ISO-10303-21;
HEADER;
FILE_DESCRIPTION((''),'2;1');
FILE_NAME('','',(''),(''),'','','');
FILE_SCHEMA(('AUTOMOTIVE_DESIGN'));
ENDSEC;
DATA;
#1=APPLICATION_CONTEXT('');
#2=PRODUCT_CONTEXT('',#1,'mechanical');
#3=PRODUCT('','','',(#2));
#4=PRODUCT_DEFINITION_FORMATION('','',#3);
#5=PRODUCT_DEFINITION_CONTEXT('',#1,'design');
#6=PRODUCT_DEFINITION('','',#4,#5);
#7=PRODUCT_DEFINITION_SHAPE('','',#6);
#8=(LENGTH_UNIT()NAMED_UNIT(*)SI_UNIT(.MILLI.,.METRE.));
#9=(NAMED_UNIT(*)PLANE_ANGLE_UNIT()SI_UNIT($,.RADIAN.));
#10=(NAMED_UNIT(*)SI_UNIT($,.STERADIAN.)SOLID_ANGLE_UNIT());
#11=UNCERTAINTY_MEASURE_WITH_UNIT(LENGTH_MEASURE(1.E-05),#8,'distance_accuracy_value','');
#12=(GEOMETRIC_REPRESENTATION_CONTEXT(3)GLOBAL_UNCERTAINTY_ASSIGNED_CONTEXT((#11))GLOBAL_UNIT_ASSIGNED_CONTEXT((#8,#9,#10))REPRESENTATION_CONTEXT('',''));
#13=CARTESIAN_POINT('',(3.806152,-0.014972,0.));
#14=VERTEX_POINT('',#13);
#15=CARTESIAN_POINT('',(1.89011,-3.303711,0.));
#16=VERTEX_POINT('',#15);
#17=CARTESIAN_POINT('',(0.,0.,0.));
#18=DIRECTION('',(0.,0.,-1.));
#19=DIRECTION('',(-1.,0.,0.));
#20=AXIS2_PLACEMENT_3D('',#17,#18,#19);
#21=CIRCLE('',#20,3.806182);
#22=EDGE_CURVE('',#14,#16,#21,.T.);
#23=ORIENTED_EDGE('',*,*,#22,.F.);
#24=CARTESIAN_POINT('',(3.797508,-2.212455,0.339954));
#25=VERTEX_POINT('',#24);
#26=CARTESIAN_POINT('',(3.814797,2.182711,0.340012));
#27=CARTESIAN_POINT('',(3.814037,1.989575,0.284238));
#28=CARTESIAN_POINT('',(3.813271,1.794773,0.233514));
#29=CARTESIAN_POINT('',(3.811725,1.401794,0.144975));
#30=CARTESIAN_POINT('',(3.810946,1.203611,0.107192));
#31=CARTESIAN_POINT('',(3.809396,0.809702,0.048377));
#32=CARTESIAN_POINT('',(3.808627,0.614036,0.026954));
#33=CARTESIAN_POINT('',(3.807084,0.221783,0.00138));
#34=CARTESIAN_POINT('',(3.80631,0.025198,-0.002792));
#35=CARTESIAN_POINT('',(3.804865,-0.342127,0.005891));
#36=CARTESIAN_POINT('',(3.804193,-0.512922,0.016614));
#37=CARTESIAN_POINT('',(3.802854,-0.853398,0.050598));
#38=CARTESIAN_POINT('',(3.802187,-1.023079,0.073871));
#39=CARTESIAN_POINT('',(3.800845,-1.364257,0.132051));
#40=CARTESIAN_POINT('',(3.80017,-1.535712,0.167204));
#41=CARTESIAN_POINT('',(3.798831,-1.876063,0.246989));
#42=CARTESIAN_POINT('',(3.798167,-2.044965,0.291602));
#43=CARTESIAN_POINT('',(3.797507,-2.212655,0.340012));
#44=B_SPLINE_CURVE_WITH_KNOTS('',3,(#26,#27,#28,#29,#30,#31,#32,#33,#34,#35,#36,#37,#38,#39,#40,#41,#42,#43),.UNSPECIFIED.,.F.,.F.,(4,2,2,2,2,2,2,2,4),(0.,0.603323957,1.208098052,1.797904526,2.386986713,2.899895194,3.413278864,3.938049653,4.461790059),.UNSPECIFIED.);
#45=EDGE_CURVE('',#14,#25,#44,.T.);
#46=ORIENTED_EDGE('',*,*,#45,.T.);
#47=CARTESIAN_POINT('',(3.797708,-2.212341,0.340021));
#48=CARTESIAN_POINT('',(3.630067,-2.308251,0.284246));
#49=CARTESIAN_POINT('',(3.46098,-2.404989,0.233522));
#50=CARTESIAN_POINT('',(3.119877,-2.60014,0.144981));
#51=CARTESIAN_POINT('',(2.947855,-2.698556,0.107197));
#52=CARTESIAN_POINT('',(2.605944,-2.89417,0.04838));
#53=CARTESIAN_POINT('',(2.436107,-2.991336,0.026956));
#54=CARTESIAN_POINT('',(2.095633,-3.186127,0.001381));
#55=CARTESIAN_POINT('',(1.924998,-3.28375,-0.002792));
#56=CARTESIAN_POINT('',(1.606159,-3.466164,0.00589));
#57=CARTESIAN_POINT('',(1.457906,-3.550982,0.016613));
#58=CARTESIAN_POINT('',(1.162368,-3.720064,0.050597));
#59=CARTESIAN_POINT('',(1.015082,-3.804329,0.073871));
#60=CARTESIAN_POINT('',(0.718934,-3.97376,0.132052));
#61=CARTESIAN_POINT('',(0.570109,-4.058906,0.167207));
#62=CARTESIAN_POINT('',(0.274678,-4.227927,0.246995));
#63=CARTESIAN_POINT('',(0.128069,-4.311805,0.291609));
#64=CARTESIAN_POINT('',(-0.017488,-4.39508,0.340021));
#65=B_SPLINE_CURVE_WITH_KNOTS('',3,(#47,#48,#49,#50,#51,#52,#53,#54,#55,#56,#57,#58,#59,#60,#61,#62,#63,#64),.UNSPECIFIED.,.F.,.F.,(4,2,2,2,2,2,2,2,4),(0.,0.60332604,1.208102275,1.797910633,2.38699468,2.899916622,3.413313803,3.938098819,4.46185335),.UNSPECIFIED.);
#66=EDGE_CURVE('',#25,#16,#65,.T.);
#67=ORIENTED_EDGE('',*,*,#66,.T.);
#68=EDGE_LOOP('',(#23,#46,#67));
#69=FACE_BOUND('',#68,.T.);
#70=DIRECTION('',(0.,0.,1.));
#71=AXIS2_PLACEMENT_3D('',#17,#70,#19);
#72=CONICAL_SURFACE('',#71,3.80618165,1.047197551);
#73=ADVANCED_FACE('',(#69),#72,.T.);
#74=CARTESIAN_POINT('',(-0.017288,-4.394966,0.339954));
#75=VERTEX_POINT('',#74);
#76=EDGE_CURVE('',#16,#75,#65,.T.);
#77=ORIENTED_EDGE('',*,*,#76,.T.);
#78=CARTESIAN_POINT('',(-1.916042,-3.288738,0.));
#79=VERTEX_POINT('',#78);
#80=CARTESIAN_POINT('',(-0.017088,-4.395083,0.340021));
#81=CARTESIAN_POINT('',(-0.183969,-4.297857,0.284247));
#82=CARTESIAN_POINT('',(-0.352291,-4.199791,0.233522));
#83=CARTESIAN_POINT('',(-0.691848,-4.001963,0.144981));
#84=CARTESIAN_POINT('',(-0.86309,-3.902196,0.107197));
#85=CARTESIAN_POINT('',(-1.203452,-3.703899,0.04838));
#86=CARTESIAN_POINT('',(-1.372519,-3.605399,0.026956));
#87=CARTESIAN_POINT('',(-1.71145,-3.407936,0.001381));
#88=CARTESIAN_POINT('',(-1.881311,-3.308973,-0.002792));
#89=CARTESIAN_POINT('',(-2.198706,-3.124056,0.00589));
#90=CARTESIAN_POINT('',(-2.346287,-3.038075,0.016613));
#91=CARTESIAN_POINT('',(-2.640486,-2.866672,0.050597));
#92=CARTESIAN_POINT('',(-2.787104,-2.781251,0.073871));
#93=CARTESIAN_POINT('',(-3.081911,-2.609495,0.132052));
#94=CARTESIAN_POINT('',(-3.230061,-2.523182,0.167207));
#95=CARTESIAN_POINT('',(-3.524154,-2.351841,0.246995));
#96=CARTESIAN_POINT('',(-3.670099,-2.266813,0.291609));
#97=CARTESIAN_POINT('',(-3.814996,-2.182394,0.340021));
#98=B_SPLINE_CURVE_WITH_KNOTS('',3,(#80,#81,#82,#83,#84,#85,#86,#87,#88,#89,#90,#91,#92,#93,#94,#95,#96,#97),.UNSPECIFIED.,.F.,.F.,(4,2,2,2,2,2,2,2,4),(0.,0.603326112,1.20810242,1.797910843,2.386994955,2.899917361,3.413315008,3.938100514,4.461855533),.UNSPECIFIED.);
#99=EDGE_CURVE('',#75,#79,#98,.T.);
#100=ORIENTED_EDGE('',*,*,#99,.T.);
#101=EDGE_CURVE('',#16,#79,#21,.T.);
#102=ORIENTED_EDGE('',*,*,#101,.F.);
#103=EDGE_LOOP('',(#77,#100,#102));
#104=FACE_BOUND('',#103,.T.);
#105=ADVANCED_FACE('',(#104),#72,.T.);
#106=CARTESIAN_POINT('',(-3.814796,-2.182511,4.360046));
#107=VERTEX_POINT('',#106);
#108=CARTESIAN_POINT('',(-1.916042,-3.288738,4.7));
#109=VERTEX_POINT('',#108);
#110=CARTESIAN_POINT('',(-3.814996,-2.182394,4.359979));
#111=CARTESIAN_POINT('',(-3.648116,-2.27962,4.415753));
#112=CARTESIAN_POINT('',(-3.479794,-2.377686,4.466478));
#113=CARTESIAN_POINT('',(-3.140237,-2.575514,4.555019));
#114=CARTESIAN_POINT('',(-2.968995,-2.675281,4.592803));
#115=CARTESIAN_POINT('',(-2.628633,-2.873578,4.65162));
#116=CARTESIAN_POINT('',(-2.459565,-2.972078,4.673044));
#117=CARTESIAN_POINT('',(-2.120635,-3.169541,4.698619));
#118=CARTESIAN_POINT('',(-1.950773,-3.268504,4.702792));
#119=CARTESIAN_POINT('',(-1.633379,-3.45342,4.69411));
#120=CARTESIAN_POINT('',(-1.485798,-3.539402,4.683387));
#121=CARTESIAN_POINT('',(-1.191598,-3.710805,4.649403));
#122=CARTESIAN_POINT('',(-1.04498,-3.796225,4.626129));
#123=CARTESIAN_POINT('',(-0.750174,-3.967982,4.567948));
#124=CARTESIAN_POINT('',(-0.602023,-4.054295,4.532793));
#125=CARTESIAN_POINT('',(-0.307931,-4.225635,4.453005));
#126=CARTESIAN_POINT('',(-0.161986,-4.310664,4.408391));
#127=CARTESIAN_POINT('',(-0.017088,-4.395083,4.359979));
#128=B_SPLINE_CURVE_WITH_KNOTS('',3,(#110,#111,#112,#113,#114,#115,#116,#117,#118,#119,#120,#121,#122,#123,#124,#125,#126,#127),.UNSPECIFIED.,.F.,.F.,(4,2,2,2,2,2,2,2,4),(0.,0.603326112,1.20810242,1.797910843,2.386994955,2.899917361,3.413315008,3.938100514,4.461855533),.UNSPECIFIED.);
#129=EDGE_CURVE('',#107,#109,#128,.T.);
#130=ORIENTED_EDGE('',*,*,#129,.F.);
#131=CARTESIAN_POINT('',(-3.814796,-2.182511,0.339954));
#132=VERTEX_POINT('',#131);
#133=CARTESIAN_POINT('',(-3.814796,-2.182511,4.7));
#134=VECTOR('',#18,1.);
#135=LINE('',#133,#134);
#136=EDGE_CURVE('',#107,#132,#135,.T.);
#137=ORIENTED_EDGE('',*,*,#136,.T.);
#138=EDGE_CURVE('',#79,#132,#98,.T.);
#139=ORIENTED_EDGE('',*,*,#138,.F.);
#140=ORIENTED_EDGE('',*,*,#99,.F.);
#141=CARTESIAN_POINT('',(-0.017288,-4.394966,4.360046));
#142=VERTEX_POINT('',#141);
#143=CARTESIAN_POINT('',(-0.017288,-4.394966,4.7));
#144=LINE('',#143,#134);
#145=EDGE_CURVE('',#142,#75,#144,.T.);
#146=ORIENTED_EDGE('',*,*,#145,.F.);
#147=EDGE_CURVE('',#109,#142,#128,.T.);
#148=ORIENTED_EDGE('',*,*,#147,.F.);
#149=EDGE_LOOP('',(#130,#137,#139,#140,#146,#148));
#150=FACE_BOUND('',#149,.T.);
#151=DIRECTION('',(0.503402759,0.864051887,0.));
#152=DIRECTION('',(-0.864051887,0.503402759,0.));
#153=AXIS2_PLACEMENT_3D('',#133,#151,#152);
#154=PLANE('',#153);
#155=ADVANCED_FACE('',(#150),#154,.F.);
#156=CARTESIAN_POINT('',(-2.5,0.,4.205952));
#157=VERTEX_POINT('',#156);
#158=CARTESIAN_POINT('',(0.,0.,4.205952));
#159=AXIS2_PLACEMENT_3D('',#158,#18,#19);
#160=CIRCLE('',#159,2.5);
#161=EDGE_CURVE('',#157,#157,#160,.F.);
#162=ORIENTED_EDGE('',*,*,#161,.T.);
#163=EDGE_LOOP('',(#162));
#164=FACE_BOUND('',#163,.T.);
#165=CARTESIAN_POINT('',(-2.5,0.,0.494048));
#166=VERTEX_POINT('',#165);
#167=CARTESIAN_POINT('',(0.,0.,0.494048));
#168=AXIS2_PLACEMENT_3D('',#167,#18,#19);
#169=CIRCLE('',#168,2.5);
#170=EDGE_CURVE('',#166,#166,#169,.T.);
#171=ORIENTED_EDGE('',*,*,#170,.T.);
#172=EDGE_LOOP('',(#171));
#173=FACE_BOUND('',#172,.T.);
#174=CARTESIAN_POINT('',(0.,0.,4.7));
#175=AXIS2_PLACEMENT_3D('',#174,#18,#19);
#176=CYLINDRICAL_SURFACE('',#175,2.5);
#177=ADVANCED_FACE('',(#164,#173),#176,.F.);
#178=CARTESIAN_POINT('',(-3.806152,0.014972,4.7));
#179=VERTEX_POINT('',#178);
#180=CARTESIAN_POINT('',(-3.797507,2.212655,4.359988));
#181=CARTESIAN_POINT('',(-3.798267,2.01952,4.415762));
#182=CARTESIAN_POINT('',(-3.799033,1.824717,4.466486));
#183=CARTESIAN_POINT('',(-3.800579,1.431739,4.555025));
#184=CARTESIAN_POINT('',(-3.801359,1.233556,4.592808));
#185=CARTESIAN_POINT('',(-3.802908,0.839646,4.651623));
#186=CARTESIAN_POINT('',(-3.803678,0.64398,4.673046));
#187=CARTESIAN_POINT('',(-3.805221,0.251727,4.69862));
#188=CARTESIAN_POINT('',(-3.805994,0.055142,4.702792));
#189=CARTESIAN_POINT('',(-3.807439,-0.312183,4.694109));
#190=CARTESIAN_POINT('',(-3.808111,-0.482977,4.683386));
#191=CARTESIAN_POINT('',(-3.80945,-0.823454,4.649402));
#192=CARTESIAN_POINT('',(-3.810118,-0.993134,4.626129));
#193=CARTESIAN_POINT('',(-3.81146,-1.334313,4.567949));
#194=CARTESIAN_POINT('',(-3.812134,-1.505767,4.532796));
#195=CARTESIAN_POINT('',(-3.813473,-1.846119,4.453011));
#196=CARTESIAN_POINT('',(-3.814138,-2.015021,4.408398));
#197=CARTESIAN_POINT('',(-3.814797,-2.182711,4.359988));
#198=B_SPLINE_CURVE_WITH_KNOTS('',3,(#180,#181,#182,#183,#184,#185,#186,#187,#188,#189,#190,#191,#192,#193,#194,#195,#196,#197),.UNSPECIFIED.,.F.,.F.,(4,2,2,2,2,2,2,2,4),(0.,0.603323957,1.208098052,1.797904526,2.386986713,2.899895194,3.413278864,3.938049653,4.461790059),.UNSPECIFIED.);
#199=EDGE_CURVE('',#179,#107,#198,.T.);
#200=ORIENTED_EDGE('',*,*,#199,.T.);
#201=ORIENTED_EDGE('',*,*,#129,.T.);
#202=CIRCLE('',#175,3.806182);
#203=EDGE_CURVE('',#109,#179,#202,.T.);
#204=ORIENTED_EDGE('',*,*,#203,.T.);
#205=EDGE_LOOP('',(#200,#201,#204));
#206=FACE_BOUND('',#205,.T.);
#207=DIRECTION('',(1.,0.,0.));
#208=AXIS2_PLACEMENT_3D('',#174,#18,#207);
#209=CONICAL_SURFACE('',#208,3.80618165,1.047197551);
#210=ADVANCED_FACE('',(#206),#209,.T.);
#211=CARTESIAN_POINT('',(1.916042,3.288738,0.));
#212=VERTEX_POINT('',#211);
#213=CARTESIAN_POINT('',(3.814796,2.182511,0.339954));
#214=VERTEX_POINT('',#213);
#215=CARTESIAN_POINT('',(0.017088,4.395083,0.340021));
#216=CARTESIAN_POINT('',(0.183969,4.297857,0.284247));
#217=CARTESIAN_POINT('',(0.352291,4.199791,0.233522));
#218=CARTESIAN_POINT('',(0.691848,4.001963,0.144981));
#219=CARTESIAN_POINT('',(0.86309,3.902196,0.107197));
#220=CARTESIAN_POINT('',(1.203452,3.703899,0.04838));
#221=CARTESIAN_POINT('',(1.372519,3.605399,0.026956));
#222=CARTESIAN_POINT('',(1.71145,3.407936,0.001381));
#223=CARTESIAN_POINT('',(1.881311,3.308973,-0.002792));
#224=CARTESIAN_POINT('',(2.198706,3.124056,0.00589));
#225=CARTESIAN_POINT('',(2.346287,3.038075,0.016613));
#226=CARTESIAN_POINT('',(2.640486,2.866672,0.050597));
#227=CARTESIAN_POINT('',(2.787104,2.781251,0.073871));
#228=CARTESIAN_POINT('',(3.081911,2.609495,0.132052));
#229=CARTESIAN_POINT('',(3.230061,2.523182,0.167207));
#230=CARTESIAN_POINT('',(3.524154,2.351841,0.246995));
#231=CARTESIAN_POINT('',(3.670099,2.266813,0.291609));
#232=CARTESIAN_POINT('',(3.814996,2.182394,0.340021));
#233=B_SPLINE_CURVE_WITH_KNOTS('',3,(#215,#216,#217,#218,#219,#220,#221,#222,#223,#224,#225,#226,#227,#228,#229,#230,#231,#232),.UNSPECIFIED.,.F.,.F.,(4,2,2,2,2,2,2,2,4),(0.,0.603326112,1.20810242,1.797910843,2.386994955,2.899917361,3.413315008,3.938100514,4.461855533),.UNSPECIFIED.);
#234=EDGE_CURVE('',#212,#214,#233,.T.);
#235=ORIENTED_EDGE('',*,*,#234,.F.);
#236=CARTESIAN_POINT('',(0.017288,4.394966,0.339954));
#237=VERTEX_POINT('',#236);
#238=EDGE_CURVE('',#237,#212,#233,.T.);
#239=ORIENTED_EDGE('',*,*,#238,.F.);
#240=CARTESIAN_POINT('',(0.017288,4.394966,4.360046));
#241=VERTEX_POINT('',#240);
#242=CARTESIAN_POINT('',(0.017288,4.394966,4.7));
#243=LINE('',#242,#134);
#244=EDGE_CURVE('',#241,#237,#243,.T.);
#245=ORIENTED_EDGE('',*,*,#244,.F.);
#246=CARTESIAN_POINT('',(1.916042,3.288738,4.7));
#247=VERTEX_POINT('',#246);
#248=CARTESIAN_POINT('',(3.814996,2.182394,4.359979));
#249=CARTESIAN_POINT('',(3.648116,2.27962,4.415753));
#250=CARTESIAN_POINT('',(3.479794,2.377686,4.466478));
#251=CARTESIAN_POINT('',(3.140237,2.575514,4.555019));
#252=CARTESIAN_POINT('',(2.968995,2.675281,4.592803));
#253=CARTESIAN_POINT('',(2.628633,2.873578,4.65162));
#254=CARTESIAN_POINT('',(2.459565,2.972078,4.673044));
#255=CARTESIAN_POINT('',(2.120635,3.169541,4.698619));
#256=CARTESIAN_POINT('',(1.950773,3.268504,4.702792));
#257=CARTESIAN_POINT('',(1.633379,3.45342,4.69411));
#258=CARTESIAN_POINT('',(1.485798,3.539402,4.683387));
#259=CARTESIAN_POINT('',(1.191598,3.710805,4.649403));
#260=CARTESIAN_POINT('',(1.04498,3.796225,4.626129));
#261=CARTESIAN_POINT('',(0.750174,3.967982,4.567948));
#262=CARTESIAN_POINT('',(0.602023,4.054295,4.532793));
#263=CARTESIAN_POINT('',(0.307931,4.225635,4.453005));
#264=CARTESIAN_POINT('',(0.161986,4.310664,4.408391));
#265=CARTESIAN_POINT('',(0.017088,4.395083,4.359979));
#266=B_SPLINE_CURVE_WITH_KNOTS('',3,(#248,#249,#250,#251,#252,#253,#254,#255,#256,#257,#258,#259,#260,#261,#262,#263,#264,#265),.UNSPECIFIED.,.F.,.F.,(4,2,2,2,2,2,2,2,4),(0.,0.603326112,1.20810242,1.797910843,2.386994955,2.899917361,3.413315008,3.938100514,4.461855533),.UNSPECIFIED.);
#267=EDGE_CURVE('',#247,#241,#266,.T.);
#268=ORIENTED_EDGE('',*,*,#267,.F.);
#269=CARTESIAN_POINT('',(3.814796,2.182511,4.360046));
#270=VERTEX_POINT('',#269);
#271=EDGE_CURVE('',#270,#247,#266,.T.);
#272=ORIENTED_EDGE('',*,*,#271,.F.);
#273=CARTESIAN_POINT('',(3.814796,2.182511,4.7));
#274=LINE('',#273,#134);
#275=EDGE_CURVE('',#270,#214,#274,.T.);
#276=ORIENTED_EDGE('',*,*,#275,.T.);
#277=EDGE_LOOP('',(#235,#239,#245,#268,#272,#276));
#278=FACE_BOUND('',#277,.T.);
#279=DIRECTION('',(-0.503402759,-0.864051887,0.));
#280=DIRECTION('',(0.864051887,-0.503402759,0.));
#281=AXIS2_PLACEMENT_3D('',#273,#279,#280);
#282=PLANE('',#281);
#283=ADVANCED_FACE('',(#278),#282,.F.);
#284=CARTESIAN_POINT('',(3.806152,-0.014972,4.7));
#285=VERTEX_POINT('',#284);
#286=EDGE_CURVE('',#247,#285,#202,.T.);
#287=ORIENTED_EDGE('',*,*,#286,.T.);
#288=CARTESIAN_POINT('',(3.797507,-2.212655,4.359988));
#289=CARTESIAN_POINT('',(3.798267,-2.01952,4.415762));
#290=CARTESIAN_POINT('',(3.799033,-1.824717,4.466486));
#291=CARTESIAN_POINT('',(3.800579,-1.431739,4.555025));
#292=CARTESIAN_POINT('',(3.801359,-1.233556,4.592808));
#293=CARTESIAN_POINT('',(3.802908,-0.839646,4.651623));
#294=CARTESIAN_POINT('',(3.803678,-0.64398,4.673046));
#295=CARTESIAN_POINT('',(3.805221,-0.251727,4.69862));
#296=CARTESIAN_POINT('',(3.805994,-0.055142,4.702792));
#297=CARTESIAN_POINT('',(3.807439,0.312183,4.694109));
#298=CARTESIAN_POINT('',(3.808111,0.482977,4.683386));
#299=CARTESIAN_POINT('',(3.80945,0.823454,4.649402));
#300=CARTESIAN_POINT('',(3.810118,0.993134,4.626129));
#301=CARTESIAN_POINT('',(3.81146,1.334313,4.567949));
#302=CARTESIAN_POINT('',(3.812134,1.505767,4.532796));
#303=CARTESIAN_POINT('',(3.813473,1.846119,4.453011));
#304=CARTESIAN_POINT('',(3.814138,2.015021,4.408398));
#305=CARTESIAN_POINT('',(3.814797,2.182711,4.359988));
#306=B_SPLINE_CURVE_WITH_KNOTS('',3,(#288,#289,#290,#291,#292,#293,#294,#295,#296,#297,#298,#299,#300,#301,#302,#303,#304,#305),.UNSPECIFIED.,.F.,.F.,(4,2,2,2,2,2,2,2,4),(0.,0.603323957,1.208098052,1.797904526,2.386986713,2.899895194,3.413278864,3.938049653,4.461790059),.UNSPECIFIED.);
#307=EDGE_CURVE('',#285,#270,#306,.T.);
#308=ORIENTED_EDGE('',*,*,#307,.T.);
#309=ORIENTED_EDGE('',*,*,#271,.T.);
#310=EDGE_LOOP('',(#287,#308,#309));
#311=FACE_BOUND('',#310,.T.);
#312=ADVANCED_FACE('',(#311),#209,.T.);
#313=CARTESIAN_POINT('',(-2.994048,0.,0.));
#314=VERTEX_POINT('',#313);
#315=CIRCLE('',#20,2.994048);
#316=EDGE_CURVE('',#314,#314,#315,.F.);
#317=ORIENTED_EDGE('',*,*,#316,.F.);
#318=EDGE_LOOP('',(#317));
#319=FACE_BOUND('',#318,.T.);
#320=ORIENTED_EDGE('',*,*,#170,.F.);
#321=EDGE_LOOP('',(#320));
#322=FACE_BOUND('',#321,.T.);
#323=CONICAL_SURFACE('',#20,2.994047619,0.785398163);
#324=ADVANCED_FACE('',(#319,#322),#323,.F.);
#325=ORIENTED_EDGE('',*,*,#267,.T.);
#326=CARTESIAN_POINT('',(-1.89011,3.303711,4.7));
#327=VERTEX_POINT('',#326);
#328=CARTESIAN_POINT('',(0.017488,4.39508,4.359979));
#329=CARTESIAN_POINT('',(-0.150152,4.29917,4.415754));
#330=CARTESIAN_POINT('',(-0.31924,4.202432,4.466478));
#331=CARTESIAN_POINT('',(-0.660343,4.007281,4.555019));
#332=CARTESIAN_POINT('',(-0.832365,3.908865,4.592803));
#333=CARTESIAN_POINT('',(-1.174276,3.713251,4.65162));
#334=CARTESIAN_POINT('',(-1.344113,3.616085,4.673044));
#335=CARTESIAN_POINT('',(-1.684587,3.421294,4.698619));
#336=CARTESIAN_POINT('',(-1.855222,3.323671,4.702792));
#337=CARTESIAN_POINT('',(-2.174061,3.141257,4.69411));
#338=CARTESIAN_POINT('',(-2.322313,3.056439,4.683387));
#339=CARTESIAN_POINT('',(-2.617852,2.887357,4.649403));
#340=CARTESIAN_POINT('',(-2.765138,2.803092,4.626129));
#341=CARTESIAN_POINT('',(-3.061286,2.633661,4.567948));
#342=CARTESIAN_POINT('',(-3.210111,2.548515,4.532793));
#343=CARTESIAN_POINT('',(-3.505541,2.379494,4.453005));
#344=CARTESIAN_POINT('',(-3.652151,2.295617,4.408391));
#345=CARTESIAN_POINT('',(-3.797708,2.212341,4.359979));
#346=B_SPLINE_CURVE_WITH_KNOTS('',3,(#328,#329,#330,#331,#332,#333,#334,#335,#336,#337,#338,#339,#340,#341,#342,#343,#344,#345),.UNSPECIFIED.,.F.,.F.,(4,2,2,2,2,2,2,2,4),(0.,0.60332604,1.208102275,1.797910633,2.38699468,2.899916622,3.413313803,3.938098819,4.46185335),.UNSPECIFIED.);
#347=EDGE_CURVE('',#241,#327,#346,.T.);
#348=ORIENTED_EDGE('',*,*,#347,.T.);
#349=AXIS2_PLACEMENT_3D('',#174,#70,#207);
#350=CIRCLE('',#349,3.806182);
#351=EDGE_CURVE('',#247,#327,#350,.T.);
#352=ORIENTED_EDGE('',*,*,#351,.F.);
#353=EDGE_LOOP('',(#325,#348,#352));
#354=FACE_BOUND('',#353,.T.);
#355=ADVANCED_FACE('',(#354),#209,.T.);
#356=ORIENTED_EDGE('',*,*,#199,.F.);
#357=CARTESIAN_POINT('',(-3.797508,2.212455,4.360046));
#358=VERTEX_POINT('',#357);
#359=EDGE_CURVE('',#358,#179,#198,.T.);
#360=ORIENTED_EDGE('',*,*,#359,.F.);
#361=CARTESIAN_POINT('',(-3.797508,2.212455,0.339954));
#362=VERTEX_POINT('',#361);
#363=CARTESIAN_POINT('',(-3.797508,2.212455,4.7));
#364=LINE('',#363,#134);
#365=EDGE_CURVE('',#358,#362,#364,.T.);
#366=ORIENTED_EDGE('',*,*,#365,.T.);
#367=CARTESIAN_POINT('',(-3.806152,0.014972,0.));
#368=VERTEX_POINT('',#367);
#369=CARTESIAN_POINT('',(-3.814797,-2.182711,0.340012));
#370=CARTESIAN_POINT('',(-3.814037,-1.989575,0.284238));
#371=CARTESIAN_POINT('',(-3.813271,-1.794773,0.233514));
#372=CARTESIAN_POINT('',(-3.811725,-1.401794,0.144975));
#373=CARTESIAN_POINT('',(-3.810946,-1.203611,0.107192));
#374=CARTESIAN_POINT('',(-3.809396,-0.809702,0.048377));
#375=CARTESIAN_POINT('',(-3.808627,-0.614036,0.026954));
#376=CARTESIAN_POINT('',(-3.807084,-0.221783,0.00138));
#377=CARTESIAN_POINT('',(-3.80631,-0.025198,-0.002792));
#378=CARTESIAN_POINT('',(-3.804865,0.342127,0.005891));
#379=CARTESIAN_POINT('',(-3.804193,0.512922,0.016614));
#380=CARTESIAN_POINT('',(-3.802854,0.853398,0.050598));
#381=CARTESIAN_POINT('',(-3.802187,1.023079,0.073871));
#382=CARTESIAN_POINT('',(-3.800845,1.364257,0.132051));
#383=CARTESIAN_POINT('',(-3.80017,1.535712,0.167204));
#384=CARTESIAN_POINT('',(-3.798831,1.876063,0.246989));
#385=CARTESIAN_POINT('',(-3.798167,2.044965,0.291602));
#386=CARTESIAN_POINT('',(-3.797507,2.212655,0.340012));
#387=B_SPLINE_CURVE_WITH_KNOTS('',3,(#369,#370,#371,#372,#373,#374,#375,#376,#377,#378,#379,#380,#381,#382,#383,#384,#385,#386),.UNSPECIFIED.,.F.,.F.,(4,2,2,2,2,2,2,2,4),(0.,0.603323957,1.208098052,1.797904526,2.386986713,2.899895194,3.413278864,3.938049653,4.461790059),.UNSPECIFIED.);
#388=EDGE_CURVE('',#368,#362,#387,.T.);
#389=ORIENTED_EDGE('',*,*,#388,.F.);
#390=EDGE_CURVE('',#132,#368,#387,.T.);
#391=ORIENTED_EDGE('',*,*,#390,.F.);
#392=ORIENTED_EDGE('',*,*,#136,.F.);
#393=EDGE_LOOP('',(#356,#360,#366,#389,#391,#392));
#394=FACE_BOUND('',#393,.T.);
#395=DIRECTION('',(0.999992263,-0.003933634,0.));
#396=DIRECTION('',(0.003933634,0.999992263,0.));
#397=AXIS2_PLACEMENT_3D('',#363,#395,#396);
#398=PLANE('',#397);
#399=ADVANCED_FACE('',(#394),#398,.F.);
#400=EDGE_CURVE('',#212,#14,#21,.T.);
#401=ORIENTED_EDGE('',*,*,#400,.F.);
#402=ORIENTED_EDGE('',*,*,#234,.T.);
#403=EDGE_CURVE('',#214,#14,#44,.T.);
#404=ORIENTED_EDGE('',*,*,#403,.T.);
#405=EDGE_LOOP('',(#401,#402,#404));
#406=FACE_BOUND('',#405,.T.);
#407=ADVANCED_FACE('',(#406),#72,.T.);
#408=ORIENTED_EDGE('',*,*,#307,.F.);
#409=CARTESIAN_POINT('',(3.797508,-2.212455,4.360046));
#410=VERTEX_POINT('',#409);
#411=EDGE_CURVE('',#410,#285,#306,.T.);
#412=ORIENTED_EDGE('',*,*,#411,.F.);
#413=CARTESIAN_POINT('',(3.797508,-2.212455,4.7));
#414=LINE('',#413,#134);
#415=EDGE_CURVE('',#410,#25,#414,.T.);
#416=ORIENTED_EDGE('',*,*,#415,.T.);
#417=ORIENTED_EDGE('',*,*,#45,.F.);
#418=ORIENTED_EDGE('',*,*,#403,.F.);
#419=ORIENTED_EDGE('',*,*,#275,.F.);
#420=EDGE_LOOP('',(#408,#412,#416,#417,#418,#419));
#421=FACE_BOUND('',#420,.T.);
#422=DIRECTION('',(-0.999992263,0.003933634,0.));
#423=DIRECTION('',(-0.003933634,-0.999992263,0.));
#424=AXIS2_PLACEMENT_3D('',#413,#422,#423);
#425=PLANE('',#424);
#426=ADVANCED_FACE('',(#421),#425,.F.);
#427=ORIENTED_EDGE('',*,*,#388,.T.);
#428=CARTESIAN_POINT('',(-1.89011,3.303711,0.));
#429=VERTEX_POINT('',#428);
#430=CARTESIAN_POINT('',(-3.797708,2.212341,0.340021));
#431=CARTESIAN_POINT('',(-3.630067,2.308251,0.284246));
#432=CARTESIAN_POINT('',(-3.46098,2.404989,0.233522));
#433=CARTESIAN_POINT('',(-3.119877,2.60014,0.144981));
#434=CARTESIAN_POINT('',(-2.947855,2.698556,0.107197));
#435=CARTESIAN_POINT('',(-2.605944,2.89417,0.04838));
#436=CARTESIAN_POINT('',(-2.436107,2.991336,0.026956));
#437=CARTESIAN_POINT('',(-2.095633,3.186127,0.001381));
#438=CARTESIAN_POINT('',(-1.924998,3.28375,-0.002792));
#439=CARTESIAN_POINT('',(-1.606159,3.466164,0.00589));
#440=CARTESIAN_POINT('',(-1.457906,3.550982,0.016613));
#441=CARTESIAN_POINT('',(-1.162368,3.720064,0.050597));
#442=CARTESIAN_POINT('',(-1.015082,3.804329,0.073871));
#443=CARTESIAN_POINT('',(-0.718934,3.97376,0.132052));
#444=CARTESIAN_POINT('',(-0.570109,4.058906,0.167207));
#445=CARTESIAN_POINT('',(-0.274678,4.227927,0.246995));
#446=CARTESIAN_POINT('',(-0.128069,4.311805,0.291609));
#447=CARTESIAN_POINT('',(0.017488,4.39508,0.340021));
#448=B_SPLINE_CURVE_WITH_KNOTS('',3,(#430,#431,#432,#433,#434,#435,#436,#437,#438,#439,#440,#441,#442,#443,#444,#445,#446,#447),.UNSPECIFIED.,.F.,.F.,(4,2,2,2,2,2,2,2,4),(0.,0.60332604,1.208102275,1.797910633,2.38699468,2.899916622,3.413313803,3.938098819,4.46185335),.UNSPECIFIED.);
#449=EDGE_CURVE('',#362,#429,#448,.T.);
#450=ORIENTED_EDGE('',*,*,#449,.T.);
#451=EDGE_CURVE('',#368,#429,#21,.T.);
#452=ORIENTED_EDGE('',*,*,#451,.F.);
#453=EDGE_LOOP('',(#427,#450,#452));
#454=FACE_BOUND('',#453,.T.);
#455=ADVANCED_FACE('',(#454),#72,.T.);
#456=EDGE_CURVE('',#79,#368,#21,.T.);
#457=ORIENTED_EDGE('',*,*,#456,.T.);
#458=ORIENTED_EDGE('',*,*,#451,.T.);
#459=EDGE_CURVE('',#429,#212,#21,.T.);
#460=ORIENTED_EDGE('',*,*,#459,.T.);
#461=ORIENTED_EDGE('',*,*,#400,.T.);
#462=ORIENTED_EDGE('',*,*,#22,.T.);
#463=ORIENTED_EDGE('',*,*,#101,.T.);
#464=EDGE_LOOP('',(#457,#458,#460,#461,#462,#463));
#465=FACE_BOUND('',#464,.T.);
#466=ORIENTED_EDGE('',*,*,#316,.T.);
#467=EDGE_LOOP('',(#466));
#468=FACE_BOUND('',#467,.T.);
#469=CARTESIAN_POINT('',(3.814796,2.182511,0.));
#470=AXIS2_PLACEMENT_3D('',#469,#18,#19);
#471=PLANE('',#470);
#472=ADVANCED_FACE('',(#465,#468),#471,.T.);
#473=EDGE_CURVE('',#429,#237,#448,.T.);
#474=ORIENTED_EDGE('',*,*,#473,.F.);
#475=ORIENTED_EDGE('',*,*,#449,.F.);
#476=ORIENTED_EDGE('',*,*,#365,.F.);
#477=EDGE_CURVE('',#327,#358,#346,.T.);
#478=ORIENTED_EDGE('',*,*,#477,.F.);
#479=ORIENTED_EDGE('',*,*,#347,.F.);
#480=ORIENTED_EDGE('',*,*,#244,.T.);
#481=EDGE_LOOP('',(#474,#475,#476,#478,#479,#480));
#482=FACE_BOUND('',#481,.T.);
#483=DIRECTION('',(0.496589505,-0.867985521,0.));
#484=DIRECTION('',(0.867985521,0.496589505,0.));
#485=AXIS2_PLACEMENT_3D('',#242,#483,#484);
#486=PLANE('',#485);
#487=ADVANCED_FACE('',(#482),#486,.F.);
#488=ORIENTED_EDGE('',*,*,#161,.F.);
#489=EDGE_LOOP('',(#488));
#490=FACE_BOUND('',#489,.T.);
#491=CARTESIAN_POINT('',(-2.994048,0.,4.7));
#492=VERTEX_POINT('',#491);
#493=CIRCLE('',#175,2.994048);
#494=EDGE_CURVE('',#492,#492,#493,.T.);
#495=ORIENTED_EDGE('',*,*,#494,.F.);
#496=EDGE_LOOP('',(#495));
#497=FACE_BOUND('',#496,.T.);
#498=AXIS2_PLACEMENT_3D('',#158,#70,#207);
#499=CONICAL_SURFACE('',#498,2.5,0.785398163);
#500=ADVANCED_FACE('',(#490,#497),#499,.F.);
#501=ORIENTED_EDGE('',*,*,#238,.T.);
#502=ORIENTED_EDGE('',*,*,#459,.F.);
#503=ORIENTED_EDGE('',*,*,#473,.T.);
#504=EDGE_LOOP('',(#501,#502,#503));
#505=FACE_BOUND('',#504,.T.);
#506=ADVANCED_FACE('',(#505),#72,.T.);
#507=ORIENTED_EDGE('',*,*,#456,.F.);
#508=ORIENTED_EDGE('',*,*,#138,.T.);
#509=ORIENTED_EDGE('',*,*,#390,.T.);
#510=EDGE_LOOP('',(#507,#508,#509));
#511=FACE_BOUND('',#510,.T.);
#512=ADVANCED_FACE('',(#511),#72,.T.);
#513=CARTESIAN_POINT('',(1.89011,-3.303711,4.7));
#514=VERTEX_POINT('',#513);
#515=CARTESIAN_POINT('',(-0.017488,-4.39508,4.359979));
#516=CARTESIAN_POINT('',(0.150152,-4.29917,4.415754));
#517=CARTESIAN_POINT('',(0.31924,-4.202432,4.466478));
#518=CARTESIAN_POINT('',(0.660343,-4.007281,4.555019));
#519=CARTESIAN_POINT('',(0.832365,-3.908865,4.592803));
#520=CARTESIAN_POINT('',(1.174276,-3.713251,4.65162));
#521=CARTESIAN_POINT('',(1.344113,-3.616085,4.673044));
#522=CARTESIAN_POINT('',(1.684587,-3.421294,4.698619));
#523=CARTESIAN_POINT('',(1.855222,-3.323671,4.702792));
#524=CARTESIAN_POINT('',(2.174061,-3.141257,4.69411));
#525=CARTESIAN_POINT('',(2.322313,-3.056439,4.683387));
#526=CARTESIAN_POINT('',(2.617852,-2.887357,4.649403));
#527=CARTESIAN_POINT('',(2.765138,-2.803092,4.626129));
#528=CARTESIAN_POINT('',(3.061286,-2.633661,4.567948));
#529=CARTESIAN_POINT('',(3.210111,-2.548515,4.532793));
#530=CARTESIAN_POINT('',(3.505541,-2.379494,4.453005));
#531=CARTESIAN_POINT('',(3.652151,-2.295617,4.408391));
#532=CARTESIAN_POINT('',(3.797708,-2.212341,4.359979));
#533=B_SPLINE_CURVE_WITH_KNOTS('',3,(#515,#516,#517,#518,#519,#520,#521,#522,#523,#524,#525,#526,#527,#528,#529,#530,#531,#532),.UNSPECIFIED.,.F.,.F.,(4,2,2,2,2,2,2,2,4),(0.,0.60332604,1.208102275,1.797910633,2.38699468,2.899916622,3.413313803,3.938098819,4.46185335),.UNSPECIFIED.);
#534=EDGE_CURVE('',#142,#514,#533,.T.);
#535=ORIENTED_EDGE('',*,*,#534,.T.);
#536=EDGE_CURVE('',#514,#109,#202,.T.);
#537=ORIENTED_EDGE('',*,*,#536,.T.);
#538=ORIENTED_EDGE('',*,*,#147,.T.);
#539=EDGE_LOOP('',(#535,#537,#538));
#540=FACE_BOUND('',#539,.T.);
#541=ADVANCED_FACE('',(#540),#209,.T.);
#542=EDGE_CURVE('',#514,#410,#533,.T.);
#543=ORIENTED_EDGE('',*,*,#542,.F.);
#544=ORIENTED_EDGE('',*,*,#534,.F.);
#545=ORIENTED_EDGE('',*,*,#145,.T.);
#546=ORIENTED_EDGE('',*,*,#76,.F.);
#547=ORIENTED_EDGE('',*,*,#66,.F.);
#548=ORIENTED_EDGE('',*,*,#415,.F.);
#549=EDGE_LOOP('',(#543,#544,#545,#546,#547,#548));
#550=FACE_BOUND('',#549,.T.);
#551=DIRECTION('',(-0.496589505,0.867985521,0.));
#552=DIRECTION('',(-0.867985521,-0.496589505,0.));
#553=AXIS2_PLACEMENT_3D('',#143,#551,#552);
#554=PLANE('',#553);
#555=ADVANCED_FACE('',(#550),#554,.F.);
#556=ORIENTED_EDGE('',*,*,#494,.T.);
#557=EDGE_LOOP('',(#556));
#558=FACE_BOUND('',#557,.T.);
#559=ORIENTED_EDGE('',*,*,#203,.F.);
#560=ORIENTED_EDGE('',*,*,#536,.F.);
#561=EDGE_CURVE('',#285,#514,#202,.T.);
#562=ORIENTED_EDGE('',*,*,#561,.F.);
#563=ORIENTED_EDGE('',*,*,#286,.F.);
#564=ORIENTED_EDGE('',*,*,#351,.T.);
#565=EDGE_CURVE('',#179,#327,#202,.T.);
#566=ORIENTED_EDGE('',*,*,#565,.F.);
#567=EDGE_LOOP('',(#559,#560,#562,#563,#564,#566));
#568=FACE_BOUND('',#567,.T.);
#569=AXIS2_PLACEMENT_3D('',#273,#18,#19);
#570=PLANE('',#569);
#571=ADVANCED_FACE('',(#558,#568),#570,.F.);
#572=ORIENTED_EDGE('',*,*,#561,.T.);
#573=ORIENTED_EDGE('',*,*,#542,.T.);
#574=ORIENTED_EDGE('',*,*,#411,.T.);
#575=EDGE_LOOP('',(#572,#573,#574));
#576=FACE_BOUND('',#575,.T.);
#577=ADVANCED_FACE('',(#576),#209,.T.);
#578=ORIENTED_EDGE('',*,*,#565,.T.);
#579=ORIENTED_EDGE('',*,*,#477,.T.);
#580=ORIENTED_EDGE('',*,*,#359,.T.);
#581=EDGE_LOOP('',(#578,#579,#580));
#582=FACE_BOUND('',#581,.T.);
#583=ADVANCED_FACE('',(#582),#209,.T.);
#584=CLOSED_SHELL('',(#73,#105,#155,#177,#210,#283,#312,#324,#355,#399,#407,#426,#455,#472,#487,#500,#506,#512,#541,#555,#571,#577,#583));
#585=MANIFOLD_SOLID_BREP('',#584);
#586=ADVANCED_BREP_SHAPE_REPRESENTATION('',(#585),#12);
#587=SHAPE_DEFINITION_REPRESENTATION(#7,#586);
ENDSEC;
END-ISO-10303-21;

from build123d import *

# Parameters (mm, degrees)
SKETCH_1_R          = 2.5
EXTRUDE_658_DEPTH   = 4.7
SKETCH_2_OUTSIDE_W  = 41.518
SKETCH_2_OUTSIDE_H  = 42.678
SKETCH_2_OUTSIDE_R  = 3.80618165
CUT_EXTRUDE_1_DEPTH = 8.480534567
CUT_EXTRUDE_1_DRAFT = -60
SKETCH_3_OUTSIDE_W  = 41.518
SKETCH_3_OUTSIDE_H  = 42.678
SKETCH_3_OUTSIDE_R  = 3.80618165
CUT_EXTRUDE_2_DEPTH = 8.480534567
CUT_EXTRUDE_2_DRAFT = -60
CHAMFER_1_SIZE      = 0.494047619


with BuildPart() as part:
    # 草图1 → Extrude 658 (new body)
    with BuildSketch(Plane.XY):
        Polygon((0.017288321, 4.394965997), (-3.797508041, 2.212455124), (-3.814796363, -2.182510873), (-0.017288321, -4.394965997), (3.797508041, -2.212455124), (3.814796363, 2.182510873), align=None)
        Circle(SKETCH_1_R, mode=Mode.SUBTRACT)
    extrude(amount=EXTRUDE_658_DEPTH)


with BuildPart() as cut_extrude_1_tool:
    # 草图2 outside → 切除-拉伸1 (with draft: the straight prism first)
    with BuildSketch(Plane(origin=(0, 0, 0), x_dir=(-1, 0, 0), z_dir=(0, 0, -1))):
        Rectangle(SKETCH_2_OUTSIDE_W, SKETCH_2_OUTSIDE_H)
        Circle(SKETCH_2_OUTSIDE_R, mode=Mode.SUBTRACT)
    extrude(amount=-CUT_EXTRUDE_1_DEPTH)
    # 切除-拉伸1: the draft: its side faces are tilted about the plane it starts from
    cut_extrude_1_sides = [cut_extrude_1_tool.faces().sort_by_distance(p)[0] for p in [
        (0, -21.339, 4.240267283),
        (-20.759, 0, 4.240267283),
        (0, 21.339, 4.240267283),
        (20.759, 0, 4.240267283),
        (3.80618165, 0, 4.240267283),
    ]]
    draft(cut_extrude_1_sides, Plane(origin=(0, 0, 0), x_dir=(-1, 0, 0), z_dir=(0, 0, -1)), CUT_EXTRUDE_1_DRAFT)


with BuildPart() as part_1:
    add(part.part)

    # 切除-拉伸1: cut by cut_extrude_1_tool
    add(cut_extrude_1_tool.part, mode=Mode.SUBTRACT)


with BuildPart() as cut_extrude_2_tool:
    # 草图3 outside → 切除-拉伸2 (with draft: the straight prism first)
    with BuildSketch(Plane.XY.offset(4.7)):
        Rectangle(SKETCH_3_OUTSIDE_W, SKETCH_3_OUTSIDE_H)
        Circle(SKETCH_3_OUTSIDE_R, mode=Mode.SUBTRACT)
    extrude(amount=-CUT_EXTRUDE_2_DEPTH)
    # 切除-拉伸2: the draft: its side faces are tilted about the plane it starts from
    cut_extrude_2_sides = [cut_extrude_2_tool.faces().sort_by_distance(p)[0] for p in [
        (0, -21.339, 0.459732717),
        (20.759, 0, 0.459732717),
        (0, 21.339, 0.459732717),
        (-20.759, 0, 0.459732717),
        (-3.80618165, 0, 0.459732717),
    ]]
    draft(cut_extrude_2_sides, Plane.XY.offset(4.7), CUT_EXTRUDE_2_DRAFT)


with BuildPart() as part_2:
    add(part_1.part)

    # 切除-拉伸2: cut by cut_extrude_2_tool
    add(cut_extrude_2_tool.part, mode=Mode.SUBTRACT)

    # 倒角1
    chamfer_1_edges = [part_2.edges().sort_by_distance(p)[0] for p in [
        (-2.5, 0, 0),
        (-2.5, 0, 4.7),
    ]]
    chamfer(chamfer_1_edges, length=CHAMFER_1_SIZE)


solid = part_2.part
